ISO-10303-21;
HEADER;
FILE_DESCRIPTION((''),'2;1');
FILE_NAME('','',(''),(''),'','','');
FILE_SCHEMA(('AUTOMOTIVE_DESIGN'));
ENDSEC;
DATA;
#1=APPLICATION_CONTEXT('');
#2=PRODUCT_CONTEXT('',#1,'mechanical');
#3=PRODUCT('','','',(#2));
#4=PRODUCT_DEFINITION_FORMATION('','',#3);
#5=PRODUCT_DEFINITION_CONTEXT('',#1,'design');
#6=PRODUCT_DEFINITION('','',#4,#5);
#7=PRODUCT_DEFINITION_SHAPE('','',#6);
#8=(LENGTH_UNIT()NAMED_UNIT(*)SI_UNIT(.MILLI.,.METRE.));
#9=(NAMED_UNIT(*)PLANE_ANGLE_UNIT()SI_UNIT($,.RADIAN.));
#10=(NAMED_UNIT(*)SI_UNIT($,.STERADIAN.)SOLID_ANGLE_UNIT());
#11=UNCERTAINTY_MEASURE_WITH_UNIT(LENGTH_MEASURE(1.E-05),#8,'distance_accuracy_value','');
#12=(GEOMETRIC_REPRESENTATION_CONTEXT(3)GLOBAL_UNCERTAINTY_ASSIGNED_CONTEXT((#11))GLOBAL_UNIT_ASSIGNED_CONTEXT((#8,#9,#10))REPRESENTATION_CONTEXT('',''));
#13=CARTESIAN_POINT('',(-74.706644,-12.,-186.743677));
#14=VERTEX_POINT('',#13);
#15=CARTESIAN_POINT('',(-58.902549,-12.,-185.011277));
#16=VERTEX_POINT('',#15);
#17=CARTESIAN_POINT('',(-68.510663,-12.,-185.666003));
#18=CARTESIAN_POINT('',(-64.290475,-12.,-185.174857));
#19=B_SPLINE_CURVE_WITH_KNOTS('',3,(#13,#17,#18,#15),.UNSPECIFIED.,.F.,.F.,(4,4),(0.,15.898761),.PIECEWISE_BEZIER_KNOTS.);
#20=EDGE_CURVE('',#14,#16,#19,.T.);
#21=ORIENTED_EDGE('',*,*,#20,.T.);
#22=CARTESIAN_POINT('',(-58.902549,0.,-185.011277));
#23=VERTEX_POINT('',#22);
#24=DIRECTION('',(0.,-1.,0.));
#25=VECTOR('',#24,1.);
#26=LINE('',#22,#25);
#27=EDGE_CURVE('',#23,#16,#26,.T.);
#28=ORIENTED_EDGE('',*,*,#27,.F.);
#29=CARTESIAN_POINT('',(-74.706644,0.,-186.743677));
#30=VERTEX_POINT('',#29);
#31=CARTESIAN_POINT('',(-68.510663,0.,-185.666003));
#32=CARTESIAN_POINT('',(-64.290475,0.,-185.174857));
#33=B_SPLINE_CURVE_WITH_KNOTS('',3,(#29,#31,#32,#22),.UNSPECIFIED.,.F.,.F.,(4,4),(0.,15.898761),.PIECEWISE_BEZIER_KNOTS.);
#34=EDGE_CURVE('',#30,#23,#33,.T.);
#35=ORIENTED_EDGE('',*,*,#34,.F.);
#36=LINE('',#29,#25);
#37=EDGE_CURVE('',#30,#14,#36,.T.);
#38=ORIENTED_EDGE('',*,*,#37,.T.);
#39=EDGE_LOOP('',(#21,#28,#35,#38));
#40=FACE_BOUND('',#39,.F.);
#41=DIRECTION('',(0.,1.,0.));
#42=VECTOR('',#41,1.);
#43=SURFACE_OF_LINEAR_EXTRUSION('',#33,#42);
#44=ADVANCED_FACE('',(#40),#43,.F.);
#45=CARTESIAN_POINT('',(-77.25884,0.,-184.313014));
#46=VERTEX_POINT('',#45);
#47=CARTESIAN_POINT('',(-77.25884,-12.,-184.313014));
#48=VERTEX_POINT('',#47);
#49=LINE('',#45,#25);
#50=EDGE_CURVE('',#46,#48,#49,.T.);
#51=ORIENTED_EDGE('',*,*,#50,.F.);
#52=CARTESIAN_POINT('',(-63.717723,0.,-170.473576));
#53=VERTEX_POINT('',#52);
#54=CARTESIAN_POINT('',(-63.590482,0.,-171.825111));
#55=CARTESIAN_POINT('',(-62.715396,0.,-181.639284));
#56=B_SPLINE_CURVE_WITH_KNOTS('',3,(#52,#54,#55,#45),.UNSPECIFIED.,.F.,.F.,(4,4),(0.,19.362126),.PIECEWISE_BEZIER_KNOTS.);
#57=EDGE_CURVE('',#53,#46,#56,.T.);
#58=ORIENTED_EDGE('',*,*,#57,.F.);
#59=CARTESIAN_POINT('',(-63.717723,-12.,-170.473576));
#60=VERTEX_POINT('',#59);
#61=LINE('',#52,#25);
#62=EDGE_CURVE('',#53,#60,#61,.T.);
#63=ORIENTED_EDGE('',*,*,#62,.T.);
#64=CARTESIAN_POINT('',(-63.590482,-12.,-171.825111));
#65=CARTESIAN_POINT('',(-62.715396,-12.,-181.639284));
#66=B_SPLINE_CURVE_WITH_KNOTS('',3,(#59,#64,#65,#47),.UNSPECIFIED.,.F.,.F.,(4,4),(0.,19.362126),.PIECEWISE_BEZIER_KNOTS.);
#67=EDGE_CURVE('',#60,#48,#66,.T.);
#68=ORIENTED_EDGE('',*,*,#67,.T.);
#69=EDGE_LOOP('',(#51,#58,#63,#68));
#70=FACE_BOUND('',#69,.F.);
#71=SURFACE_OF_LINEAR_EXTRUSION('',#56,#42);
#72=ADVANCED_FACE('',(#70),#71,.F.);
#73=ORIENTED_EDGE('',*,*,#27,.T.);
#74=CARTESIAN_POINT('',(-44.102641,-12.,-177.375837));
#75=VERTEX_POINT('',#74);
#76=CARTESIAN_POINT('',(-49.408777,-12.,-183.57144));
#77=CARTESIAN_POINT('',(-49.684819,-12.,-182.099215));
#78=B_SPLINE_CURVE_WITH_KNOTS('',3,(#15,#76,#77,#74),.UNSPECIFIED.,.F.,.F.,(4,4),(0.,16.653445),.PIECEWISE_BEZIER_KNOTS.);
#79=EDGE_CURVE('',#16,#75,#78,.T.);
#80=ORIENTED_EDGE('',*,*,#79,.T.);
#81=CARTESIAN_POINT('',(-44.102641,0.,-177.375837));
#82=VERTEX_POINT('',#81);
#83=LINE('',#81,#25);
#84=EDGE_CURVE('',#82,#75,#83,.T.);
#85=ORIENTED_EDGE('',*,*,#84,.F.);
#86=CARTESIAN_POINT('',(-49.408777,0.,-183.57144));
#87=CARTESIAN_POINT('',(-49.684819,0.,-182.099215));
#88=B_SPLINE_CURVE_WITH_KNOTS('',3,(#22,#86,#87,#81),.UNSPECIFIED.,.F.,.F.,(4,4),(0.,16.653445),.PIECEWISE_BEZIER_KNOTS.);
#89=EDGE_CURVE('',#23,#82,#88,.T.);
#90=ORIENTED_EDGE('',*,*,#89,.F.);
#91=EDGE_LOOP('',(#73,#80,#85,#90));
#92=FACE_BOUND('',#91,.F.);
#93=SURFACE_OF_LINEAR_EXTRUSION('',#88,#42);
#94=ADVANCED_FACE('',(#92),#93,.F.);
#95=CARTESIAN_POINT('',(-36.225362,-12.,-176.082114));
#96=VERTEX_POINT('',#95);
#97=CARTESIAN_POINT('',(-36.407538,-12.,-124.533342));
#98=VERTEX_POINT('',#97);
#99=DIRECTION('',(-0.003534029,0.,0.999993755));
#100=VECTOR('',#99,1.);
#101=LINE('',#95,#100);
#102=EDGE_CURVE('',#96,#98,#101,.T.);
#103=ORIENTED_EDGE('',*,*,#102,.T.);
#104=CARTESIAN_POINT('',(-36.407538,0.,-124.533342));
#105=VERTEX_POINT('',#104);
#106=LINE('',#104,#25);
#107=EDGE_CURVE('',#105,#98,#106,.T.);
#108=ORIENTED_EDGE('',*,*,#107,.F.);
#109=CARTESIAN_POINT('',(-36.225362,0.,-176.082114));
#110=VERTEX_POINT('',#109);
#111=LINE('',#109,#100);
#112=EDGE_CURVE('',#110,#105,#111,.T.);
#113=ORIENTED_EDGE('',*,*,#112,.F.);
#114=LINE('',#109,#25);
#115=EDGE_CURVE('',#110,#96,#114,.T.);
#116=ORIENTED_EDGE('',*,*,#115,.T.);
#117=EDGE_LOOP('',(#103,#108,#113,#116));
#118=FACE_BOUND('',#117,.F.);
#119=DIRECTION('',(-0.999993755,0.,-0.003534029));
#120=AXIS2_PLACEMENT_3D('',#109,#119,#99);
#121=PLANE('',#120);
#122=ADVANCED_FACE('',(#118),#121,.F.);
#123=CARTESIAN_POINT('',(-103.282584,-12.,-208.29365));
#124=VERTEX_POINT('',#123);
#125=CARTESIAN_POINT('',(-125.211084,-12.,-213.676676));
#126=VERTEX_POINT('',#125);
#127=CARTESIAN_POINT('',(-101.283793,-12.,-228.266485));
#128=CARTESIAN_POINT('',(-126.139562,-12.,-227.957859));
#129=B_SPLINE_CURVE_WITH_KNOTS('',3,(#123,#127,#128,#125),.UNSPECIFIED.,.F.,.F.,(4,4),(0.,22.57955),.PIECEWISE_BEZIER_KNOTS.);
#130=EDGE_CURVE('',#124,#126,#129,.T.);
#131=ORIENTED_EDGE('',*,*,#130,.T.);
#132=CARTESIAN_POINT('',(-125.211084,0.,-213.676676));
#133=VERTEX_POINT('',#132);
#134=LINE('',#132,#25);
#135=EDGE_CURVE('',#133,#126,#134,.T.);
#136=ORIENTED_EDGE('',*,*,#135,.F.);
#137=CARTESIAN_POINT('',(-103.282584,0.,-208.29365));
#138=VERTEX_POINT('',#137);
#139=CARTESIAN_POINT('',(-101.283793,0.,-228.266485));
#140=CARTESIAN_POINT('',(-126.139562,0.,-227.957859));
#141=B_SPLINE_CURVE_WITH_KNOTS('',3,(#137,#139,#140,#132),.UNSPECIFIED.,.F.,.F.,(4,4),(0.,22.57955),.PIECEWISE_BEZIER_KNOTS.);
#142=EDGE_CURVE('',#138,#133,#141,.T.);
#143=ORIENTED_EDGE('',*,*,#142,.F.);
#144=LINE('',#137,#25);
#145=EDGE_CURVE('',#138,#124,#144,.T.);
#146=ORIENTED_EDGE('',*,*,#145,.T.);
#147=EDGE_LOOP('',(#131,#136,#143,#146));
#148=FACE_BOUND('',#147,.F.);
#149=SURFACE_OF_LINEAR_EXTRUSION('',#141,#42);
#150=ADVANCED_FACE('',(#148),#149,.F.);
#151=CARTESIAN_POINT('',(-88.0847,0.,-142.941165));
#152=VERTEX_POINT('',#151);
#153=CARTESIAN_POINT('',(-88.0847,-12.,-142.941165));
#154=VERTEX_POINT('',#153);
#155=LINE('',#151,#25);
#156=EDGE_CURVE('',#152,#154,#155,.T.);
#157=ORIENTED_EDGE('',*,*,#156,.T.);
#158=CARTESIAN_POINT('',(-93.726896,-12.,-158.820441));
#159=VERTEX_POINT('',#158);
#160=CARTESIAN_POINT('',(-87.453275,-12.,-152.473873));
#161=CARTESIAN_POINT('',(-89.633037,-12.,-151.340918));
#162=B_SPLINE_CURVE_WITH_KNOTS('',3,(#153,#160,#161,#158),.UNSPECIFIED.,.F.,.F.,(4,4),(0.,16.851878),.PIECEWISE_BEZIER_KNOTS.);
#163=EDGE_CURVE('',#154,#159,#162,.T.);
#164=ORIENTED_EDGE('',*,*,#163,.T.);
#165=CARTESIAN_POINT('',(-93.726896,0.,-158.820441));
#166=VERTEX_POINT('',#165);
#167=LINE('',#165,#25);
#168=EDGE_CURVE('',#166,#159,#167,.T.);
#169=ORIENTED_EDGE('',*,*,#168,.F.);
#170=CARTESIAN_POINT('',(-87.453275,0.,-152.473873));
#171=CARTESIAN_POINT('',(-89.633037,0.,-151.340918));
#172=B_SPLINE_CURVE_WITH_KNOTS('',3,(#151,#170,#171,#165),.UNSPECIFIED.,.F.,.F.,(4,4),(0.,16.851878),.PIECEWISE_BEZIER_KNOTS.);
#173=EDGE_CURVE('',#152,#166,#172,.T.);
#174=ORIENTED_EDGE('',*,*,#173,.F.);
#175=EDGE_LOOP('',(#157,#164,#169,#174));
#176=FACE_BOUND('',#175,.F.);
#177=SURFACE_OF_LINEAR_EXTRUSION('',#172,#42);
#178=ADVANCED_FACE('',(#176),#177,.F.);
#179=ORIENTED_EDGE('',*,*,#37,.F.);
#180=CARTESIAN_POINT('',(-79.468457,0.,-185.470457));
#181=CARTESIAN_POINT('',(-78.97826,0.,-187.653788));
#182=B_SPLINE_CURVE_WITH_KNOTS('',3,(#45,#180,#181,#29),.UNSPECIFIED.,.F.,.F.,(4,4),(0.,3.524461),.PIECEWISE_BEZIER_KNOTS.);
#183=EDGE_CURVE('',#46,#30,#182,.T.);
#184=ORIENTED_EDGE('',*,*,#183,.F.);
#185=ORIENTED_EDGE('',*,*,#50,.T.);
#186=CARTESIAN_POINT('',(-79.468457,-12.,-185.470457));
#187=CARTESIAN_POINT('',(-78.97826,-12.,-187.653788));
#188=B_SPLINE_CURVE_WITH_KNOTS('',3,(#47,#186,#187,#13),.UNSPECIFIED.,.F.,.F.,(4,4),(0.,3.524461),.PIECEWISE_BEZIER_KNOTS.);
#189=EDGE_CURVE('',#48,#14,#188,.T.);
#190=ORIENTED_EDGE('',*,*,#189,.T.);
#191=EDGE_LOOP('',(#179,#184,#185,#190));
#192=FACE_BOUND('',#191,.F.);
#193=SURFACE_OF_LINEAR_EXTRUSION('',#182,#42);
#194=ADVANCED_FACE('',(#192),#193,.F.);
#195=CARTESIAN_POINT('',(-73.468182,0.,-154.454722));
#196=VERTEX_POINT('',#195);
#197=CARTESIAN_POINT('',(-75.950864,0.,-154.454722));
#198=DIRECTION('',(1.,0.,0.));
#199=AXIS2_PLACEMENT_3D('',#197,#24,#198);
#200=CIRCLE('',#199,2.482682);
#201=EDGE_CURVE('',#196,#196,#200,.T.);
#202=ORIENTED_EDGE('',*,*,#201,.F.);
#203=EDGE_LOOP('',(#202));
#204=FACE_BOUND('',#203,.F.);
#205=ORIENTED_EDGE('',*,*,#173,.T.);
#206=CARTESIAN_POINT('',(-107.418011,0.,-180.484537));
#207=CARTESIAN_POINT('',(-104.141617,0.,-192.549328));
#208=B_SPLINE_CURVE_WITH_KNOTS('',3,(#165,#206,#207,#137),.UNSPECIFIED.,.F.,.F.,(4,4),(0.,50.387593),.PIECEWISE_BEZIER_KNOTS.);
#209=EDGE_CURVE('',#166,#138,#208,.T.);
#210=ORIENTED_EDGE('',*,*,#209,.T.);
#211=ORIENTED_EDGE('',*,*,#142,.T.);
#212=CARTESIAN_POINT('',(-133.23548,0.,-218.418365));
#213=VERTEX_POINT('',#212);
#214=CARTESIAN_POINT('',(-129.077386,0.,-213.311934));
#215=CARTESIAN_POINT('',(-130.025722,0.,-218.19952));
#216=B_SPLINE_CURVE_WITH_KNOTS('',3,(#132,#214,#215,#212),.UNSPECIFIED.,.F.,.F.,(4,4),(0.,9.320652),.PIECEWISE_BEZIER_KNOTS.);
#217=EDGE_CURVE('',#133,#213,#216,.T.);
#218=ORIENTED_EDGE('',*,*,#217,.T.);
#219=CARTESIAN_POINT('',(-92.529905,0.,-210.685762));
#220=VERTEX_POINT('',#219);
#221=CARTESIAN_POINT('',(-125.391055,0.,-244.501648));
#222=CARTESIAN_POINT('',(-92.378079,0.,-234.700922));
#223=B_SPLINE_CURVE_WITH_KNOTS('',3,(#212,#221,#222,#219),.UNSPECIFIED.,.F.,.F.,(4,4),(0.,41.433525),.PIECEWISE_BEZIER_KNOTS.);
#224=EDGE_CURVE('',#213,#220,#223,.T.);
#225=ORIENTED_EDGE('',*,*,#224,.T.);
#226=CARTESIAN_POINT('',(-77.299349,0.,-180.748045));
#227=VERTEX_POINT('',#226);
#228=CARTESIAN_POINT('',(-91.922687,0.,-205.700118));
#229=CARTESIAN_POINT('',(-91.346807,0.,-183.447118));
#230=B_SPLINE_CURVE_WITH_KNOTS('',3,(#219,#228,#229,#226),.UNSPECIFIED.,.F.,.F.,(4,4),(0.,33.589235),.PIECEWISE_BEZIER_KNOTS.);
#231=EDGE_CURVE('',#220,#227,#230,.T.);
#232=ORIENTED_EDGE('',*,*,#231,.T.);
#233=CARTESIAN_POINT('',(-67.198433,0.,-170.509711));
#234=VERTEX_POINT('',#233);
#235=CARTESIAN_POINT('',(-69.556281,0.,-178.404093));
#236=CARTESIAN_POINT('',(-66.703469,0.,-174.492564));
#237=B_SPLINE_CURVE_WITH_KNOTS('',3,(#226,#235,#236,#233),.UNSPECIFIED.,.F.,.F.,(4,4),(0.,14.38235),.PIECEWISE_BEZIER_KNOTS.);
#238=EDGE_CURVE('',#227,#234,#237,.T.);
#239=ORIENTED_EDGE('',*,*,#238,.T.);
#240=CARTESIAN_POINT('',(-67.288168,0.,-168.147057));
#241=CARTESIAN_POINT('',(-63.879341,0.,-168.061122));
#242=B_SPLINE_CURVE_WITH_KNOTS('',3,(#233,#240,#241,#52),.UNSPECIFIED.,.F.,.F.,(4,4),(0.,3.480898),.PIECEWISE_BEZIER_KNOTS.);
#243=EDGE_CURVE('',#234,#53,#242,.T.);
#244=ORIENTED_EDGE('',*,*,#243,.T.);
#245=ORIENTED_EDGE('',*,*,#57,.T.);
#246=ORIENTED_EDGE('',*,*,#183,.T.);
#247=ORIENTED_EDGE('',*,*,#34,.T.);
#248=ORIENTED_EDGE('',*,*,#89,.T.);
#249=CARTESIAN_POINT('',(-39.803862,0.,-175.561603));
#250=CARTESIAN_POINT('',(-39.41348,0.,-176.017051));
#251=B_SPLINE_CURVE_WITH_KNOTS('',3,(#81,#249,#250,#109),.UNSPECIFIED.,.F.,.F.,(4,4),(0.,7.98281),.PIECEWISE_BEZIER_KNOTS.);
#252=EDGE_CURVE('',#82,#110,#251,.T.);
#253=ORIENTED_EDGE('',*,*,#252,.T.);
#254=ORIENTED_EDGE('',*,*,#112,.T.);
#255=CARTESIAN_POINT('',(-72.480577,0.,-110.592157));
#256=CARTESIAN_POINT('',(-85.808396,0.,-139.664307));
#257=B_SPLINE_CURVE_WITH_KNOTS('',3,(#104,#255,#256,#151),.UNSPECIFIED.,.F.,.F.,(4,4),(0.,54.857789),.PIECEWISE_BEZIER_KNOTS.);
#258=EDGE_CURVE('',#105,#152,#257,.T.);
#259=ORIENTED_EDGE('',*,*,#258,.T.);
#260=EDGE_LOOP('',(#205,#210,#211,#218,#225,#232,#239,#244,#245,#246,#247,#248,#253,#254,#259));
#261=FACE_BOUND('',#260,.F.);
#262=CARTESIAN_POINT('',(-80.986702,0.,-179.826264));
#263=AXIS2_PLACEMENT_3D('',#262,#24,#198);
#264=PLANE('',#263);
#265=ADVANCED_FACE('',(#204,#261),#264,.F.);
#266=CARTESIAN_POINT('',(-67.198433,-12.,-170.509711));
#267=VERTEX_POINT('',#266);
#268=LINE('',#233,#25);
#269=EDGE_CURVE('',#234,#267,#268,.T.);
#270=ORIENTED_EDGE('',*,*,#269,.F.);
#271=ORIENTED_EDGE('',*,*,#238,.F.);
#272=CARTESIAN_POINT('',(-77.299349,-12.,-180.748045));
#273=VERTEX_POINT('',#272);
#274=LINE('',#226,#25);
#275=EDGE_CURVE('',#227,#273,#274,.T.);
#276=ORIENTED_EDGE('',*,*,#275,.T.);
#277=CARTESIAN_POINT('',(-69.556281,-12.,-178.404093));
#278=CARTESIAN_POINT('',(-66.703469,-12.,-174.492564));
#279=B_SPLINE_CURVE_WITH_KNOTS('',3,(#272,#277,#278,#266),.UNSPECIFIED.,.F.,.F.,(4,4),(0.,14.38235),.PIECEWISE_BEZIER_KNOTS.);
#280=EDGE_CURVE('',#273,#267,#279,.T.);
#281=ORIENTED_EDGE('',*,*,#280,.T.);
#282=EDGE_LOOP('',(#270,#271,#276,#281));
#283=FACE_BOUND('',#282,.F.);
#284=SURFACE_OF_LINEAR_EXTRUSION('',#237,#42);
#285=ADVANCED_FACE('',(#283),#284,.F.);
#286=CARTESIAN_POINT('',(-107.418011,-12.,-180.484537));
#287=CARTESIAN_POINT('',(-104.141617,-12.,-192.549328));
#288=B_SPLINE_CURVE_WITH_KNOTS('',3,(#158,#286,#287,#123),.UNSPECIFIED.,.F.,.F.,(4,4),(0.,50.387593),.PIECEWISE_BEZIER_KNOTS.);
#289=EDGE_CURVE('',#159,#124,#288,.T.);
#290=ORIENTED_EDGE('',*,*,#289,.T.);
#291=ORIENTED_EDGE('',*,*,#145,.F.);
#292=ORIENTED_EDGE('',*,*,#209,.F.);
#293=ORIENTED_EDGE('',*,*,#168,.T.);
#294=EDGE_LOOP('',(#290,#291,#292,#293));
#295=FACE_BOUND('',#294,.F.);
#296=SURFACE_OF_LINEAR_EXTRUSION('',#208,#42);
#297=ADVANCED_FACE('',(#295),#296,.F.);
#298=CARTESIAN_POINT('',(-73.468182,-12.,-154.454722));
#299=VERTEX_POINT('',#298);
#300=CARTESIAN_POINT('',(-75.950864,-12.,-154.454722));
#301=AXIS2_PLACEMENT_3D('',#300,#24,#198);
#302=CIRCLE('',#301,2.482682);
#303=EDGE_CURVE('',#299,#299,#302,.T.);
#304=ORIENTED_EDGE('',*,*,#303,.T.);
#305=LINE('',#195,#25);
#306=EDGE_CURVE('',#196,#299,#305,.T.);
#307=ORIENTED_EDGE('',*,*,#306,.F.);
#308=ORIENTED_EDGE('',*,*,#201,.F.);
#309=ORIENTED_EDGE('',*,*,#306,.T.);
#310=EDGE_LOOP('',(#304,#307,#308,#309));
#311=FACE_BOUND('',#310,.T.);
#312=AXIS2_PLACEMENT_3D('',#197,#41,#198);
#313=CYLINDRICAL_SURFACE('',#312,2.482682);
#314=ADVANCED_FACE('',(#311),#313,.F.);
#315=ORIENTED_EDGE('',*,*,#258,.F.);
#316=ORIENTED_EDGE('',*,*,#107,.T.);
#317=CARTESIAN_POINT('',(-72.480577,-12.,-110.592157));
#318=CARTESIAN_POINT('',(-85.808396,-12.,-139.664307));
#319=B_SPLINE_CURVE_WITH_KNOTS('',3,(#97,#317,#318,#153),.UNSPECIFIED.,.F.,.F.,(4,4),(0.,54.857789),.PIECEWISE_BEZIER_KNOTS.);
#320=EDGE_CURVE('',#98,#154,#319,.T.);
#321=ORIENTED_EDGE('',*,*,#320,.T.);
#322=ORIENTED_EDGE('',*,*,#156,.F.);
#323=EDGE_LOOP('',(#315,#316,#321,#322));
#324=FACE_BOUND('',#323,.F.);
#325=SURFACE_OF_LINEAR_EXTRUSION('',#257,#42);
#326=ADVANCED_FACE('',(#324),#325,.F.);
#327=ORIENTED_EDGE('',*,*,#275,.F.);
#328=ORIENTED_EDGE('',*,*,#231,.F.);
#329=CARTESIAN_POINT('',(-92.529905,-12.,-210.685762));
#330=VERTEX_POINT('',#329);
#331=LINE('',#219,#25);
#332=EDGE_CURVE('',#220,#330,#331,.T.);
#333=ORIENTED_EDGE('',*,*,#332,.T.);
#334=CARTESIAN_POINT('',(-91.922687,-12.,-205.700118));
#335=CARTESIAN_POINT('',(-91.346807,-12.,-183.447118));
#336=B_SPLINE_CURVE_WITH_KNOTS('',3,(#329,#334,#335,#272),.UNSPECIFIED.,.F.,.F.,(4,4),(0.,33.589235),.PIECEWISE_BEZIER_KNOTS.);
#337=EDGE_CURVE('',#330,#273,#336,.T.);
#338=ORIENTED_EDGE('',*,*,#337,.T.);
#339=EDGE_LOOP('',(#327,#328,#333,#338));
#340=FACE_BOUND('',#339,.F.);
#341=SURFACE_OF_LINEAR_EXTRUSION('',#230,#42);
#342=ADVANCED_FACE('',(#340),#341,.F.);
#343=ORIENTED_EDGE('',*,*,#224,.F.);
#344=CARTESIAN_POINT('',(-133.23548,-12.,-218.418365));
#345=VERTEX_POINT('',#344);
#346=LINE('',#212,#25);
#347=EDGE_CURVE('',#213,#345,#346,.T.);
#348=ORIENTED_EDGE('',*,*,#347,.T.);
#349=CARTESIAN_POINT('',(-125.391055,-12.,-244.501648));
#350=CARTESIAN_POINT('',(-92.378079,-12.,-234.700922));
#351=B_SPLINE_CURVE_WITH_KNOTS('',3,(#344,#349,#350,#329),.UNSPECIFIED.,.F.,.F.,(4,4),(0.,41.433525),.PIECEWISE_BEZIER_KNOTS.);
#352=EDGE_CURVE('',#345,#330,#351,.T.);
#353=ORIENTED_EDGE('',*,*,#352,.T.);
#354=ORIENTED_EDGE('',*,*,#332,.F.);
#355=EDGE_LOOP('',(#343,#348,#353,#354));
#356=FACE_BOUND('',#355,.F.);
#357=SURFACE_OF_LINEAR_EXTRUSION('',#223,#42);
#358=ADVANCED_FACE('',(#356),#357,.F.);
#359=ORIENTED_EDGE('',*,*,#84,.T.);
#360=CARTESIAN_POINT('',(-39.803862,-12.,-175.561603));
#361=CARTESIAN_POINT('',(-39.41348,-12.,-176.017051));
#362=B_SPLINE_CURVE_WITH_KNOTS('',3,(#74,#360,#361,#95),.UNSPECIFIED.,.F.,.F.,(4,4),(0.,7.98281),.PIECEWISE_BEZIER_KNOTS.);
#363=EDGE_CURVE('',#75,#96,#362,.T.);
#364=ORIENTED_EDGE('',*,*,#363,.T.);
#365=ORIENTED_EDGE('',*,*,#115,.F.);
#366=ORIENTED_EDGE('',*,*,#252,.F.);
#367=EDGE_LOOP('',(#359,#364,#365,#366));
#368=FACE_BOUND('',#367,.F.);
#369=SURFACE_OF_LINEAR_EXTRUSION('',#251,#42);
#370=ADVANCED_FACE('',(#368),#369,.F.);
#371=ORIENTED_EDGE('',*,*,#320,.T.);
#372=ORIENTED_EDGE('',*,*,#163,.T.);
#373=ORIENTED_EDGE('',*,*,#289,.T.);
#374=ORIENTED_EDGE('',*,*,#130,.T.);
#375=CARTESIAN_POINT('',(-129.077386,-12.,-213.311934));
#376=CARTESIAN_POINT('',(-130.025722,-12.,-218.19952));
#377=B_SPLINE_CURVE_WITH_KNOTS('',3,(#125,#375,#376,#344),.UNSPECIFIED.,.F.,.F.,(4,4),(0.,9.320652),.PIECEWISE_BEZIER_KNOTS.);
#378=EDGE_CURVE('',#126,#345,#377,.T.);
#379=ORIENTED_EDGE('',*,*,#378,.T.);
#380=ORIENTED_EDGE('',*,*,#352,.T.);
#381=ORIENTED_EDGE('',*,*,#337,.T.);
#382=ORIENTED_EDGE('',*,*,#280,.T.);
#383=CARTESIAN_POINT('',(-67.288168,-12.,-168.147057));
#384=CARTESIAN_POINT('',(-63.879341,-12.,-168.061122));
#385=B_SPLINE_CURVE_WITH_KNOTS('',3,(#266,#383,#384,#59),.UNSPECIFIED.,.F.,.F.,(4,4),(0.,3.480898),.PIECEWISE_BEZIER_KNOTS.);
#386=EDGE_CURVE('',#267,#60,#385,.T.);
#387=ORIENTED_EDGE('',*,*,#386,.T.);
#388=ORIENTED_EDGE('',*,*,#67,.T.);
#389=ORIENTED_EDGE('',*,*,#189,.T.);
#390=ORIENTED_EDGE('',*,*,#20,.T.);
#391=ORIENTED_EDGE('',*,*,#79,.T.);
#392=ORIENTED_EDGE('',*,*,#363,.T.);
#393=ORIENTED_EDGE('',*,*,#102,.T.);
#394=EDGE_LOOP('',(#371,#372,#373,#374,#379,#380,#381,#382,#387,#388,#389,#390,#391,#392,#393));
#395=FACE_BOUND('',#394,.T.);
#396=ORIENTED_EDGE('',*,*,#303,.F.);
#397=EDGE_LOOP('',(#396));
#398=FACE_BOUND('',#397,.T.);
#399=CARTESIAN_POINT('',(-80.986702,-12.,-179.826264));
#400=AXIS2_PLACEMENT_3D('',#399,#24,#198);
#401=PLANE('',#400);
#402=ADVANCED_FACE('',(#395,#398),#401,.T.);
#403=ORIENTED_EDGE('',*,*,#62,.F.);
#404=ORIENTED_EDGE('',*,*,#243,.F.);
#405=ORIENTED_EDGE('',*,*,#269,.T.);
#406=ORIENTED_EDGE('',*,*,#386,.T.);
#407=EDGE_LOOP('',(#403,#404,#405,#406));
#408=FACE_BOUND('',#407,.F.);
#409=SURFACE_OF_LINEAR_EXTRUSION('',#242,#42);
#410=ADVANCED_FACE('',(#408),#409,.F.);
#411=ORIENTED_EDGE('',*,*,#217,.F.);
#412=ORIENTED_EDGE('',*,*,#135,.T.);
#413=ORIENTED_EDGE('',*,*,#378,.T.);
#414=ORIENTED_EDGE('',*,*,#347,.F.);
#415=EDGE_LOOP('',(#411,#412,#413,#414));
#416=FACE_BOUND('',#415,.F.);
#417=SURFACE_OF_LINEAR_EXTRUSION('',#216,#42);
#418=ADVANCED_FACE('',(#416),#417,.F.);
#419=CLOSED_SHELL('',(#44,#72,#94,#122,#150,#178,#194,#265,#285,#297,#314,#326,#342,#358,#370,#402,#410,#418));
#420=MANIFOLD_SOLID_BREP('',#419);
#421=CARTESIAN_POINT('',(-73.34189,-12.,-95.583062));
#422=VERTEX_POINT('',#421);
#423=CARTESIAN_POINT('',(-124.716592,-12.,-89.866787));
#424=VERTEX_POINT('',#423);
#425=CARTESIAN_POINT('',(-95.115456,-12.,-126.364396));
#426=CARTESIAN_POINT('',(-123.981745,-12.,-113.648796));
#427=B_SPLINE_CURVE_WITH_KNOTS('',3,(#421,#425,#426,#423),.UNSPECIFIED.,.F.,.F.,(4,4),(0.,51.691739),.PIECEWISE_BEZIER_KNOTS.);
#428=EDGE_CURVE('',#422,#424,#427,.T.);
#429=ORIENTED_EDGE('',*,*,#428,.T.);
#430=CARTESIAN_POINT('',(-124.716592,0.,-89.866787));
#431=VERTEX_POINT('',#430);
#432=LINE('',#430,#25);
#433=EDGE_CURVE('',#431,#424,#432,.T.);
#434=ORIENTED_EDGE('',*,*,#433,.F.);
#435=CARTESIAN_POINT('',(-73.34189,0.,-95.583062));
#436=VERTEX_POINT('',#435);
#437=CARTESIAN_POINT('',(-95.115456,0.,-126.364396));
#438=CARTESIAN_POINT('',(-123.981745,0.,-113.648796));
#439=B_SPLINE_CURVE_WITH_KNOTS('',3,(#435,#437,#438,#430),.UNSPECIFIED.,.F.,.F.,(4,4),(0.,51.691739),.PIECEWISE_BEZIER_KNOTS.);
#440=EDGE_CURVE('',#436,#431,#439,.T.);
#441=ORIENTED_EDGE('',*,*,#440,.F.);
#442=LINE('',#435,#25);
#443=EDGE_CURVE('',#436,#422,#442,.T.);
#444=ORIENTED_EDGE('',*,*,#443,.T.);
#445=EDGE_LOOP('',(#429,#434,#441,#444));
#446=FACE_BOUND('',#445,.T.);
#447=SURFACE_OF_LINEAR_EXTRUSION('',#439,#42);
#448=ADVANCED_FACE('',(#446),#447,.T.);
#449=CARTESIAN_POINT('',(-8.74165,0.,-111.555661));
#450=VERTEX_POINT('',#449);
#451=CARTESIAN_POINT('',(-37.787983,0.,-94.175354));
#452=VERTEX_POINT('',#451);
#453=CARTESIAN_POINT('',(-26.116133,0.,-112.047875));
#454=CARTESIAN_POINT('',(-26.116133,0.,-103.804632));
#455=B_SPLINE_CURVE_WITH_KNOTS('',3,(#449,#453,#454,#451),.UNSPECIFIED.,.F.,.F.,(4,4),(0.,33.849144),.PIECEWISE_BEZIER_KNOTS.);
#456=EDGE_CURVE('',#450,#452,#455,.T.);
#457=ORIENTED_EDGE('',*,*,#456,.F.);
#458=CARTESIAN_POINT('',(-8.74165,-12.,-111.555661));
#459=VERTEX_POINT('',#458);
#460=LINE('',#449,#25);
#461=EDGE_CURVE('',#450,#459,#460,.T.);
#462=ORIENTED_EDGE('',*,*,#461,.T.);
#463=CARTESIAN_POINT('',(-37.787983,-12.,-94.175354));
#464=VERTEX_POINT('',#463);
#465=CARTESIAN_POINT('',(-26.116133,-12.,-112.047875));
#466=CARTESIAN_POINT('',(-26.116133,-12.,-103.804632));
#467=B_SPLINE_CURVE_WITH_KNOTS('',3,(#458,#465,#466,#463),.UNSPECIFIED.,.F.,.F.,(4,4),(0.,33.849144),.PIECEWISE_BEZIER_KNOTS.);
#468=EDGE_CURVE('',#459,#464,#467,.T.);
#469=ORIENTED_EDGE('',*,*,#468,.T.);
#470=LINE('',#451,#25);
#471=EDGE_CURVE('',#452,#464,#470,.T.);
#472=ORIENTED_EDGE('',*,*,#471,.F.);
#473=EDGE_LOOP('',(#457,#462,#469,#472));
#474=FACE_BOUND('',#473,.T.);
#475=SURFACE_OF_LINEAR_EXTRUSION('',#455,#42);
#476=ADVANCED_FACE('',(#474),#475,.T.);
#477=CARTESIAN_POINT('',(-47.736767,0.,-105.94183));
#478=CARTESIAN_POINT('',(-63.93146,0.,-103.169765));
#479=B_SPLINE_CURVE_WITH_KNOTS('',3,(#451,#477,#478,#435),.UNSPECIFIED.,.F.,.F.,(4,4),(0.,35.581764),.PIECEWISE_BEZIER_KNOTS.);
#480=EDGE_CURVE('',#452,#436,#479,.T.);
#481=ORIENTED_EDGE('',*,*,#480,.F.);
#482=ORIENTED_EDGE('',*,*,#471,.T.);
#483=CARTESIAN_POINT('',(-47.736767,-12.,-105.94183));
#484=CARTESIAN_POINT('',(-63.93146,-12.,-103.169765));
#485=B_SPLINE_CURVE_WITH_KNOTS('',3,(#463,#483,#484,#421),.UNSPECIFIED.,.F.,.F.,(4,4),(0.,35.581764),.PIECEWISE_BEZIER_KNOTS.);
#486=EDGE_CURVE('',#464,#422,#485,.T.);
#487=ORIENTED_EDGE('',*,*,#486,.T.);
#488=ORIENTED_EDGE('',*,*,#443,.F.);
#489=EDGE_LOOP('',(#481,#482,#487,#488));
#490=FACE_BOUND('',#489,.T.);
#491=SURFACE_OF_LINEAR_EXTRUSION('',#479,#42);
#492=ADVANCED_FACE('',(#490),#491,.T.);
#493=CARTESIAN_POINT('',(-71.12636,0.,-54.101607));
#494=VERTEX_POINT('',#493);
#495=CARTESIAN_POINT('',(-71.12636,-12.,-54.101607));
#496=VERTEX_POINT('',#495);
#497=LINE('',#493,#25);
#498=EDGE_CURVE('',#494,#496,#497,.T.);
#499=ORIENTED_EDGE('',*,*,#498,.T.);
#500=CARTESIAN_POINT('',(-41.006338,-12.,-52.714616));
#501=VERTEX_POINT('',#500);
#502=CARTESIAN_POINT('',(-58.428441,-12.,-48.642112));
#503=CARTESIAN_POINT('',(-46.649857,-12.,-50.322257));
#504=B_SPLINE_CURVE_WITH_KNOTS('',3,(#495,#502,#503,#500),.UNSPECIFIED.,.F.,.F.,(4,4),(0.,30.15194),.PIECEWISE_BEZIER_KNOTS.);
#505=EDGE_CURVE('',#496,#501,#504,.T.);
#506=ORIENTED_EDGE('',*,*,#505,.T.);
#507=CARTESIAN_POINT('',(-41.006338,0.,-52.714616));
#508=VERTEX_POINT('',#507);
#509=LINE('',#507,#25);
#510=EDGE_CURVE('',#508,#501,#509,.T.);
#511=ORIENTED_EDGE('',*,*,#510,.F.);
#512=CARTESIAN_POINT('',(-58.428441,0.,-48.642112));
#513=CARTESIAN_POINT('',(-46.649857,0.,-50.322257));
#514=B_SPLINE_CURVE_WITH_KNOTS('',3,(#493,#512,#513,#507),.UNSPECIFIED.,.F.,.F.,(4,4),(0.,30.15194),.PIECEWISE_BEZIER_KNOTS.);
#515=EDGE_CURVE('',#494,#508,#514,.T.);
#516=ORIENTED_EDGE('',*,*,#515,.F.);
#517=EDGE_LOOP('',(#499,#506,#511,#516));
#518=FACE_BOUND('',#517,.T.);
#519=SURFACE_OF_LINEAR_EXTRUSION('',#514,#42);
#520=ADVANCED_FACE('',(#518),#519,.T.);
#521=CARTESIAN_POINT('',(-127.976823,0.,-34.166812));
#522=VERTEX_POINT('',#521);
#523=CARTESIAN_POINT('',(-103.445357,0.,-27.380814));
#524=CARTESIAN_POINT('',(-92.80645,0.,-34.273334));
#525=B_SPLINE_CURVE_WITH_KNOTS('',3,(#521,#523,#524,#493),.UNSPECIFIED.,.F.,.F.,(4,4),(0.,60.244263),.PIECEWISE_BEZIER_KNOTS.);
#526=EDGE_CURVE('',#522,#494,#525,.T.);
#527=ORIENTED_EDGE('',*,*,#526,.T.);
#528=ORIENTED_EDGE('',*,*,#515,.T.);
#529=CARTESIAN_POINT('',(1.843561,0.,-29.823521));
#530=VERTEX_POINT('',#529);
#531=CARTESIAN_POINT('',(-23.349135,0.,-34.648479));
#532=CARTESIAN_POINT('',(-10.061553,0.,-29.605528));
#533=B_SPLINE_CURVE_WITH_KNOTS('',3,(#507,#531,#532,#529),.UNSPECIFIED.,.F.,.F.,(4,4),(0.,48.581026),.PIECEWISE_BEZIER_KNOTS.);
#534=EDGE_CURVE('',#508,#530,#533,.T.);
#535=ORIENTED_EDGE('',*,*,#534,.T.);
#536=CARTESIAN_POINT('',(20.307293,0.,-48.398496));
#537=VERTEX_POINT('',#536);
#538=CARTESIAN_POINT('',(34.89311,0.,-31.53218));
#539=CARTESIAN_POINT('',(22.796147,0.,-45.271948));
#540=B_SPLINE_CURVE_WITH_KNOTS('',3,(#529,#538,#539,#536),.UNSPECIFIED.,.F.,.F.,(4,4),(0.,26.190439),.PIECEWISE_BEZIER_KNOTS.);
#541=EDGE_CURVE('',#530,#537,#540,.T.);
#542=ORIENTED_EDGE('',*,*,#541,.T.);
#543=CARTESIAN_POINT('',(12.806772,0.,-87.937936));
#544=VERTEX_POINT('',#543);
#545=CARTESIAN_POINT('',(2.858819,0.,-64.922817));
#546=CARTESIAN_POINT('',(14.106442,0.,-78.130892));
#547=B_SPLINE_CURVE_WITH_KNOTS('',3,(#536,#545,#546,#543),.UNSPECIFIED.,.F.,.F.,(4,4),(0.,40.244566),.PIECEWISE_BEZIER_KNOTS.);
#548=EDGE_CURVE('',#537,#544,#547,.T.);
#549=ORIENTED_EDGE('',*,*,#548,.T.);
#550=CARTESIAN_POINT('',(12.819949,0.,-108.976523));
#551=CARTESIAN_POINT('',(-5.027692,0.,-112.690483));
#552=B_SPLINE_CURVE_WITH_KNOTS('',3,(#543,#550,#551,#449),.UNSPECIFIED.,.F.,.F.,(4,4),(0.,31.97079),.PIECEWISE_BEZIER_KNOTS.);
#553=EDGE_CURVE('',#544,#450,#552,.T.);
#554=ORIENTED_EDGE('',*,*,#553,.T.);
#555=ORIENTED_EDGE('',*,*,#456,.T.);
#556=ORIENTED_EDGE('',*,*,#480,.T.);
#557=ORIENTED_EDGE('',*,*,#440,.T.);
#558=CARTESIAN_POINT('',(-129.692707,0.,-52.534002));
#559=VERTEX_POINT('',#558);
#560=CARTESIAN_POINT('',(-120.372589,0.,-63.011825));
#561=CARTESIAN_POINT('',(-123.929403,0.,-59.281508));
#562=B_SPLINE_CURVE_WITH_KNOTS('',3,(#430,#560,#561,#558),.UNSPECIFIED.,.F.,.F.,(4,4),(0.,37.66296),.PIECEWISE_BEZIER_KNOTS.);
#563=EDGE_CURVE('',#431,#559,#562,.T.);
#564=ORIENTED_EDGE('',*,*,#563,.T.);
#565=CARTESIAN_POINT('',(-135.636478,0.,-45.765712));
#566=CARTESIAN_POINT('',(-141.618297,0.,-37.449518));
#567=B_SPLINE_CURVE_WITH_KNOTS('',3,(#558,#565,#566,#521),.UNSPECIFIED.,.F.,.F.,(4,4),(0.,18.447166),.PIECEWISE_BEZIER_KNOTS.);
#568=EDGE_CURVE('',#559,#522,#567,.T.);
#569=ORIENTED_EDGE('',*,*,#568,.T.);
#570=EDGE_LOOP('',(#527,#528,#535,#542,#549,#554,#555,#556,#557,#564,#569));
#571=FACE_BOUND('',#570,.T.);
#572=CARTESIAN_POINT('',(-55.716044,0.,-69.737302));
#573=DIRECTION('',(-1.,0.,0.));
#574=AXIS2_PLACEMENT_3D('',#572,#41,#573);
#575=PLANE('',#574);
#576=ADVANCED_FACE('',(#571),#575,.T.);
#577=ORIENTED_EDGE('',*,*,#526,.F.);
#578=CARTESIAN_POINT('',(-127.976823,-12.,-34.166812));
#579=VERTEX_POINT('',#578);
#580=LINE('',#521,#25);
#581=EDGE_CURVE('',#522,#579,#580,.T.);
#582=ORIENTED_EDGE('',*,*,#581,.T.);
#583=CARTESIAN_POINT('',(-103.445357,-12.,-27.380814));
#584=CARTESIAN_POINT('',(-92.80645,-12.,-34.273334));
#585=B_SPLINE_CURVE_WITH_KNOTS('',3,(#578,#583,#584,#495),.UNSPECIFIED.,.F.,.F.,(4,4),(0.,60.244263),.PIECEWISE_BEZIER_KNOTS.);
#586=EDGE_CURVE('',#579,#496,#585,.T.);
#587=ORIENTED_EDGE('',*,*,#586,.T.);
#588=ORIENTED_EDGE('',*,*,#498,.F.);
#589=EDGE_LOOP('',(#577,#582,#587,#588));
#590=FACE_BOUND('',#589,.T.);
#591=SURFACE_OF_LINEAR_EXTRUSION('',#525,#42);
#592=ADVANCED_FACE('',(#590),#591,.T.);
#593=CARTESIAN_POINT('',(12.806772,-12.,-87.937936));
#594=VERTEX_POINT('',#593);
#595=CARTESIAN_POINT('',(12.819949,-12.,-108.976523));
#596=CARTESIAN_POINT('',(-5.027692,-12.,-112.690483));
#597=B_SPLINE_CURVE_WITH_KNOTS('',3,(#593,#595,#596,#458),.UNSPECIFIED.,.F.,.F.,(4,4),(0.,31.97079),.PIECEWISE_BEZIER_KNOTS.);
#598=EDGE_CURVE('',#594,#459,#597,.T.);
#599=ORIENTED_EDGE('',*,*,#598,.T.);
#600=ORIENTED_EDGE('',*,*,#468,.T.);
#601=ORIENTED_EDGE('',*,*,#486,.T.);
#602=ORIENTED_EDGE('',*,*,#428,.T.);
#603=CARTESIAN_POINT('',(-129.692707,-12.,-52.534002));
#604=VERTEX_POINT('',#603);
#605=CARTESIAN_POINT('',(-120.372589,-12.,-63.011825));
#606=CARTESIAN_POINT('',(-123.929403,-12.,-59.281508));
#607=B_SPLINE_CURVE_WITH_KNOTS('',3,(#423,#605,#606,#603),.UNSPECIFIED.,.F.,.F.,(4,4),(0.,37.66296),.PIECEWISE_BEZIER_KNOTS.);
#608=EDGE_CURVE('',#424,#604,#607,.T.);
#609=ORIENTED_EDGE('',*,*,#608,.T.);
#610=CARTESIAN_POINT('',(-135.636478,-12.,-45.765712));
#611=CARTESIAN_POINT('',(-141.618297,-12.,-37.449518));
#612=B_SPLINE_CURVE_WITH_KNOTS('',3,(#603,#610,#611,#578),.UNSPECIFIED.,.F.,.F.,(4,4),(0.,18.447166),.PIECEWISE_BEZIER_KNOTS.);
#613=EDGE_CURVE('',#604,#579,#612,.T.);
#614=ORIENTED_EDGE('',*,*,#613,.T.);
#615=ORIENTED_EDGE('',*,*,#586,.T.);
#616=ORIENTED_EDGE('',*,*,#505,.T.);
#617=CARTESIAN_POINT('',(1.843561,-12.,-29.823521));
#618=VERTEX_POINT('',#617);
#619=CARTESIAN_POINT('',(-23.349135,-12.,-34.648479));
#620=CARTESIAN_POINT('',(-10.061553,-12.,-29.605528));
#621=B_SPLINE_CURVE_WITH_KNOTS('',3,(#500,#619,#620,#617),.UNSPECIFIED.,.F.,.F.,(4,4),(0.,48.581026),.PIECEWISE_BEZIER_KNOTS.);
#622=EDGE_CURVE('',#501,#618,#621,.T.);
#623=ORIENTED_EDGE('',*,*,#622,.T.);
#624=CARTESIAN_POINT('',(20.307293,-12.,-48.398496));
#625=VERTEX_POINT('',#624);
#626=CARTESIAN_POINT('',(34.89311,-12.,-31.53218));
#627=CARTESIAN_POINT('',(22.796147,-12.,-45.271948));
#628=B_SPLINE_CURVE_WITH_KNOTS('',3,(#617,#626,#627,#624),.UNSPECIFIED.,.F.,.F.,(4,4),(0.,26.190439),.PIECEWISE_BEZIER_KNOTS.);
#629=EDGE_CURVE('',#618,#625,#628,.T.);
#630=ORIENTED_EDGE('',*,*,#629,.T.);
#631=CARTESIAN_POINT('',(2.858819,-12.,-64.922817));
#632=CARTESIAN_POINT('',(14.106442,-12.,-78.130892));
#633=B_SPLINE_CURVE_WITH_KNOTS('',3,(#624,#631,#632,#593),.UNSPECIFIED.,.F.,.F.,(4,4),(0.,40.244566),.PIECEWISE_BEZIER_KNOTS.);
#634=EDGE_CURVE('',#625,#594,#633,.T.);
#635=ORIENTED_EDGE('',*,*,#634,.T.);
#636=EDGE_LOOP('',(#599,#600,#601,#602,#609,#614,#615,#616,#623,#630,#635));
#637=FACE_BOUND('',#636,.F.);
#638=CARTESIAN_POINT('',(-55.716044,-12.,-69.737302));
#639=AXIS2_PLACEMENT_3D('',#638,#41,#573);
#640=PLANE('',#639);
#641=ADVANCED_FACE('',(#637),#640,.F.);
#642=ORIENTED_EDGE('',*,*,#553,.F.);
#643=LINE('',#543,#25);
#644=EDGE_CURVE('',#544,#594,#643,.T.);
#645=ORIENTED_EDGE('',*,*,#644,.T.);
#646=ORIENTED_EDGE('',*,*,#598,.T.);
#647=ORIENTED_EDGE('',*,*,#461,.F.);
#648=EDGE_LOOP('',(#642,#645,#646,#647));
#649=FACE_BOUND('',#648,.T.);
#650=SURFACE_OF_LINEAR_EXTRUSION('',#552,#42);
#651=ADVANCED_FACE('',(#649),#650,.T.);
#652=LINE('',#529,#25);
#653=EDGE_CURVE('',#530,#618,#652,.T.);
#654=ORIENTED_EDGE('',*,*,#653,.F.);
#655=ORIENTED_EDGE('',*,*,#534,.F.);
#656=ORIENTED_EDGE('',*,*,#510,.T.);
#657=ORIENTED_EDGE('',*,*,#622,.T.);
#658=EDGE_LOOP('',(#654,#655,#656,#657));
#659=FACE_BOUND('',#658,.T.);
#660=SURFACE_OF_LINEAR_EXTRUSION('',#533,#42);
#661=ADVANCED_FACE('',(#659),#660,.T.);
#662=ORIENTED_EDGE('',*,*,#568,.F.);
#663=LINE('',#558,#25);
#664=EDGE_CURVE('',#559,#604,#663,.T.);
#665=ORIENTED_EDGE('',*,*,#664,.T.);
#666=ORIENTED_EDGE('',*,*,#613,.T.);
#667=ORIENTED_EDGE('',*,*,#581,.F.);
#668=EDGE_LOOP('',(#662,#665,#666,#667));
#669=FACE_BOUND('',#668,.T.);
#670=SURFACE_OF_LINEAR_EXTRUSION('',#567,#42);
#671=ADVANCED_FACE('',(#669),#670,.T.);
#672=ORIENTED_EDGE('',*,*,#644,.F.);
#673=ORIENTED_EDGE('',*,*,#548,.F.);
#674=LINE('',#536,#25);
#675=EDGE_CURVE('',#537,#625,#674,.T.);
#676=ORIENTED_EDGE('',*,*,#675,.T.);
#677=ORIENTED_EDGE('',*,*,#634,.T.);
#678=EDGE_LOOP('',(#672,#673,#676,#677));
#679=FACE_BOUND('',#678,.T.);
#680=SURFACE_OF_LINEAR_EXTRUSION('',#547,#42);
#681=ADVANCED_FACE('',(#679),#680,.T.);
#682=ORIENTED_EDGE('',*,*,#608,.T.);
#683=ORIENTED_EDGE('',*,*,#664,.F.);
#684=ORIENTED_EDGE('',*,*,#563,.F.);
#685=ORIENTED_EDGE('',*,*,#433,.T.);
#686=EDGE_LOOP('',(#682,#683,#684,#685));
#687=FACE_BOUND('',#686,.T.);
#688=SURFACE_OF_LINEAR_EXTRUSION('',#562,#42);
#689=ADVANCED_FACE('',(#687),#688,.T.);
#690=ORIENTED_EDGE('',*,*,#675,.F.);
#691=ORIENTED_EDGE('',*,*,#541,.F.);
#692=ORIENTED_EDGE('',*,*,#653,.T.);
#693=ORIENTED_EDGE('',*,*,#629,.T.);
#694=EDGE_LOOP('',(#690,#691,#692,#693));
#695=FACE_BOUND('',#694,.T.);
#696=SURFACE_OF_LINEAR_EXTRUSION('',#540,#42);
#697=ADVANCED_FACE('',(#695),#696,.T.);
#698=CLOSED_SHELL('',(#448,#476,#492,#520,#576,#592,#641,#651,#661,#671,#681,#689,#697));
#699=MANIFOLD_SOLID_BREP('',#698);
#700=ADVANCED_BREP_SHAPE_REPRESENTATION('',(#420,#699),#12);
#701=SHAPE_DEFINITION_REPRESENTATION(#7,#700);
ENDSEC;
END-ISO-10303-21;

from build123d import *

# Parameters (mm, degrees)
F0_R     = 2.482682
F1_DEPTH = 12


with BuildPart() as f1:
    # F0 (on Front) → F1 (new body)
    with BuildSketch(Plane.XZ):
        with BuildLine():
            add(Edge.make_bspline(
                [(-71.12636, -54.101607), (-58.428441, -48.642112), (-46.649857, -50.322257), (-41.006338, -52.714616)],
                knots=[0, 0, 0, 0, 30.15194, 30.15194, 30.15194, 30.15194], degree=3))
            add(Edge.make_bspline(
                [(-127.976823, -34.166812), (-103.445357, -27.380814), (-92.80645, -34.273334), (-71.12636, -54.101607)],
                knots=[0, 0, 0, 0, 60.244263, 60.244263, 60.244263, 60.244263], degree=3))
            add(Edge.make_bspline(
                [(-129.692707, -52.534002), (-135.636478, -45.765712), (-141.618297, -37.449518), (-127.976823, -34.166812)],
                knots=[0, 0, 0, 0, 18.447166, 18.447166, 18.447166, 18.447166], degree=3))
            add(Edge.make_bspline(
                [(-124.716592, -89.866787), (-120.372589, -63.011825), (-123.929403, -59.281508), (-129.692707, -52.534002)],
                knots=[0, 0, 0, 0, 37.66296, 37.66296, 37.66296, 37.66296], degree=3))
            add(Edge.make_bspline(
                [(-73.34189, -95.583062), (-95.115456, -126.364396), (-123.981745, -113.648796), (-124.716592, -89.866787)],
                knots=[0, 0, 0, 0, 51.691739, 51.691739, 51.691739, 51.691739], degree=3))
            add(Edge.make_bspline(
                [(-37.787983, -94.175354), (-47.736767, -105.94183), (-63.93146, -103.169765), (-73.34189, -95.583062)],
                knots=[0, 0, 0, 0, 35.581764, 35.581764, 35.581764, 35.581764], degree=3))
            add(Edge.make_bspline(
                [(-8.74165, -111.555661), (-26.116133, -112.047875), (-26.116133, -103.804632), (-37.787983, -94.175354)],
                knots=[0, 0, 0, 0, 33.849144, 33.849144, 33.849144, 33.849144], degree=3))
            add(Edge.make_bspline(
                [(12.806772, -87.937936), (12.819949, -108.976523), (-5.027692, -112.690483), (-8.74165, -111.555661)],
                knots=[0, 0, 0, 0, 31.97079, 31.97079, 31.97079, 31.97079], degree=3))
            add(Edge.make_bspline(
                [(20.307293, -48.398496), (2.858819, -64.922817), (14.106442, -78.130892), (12.806772, -87.937936)],
                knots=[0, 0, 0, 0, 40.244566, 40.244566, 40.244566, 40.244566], degree=3))
            add(Edge.make_bspline(
                [(1.843561, -29.823521), (34.89311, -31.53218), (22.796147, -45.271948), (20.307293, -48.398496)],
                knots=[0, 0, 0, 0, 26.190439, 26.190439, 26.190439, 26.190439], degree=3))
            add(Edge.make_bspline(
                [(-41.006338, -52.714616), (-23.349135, -34.648479), (-10.061553, -29.605528), (1.843561, -29.823521)],
                knots=[0, 0, 0, 0, 48.581026, 48.581026, 48.581026, 48.581026], degree=3))
        make_face()
        with BuildLine():
            Line((-36.225362, -176.082114), (-36.407538, -124.533342))
            add(Edge.make_bspline(
                [(-36.407538, -124.533342), (-72.480577, -110.592157), (-85.808396, -139.664307), (-88.0847, -142.941165)],
                knots=[0, 0, 0, 0, 54.857789, 54.857789, 54.857789, 54.857789], degree=3))
            add(Edge.make_bspline(
                [(-88.0847, -142.941165), (-87.453275, -152.473873), (-89.633037, -151.340918), (-93.726896, -158.820441)],
                knots=[0, 0, 0, 0, 16.851878, 16.851878, 16.851878, 16.851878], degree=3))
            add(Edge.make_bspline(
                [(-93.726896, -158.820441), (-107.418011, -180.484537), (-104.141617, -192.549328), (-103.282584, -208.29365)],
                knots=[0, 0, 0, 0, 50.387593, 50.387593, 50.387593, 50.387593], degree=3))
            add(Edge.make_bspline(
                [(-103.282584, -208.29365), (-101.283793, -228.266485), (-126.139562, -227.957859), (-125.211084, -213.676676)],
                knots=[0, 0, 0, 0, 22.57955, 22.57955, 22.57955, 22.57955], degree=3))
            add(Edge.make_bspline(
                [(-125.211084, -213.676676), (-129.077386, -213.311934), (-130.025722, -218.19952), (-133.23548, -218.418365)],
                knots=[0, 0, 0, 0, 9.320652, 9.320652, 9.320652, 9.320652], degree=3))
            add(Edge.make_bspline(
                [(-133.23548, -218.418365), (-125.391055, -244.501648), (-92.378079, -234.700922), (-92.529905, -210.685762)],
                knots=[0, 0, 0, 0, 41.433525, 41.433525, 41.433525, 41.433525], degree=3))
            add(Edge.make_bspline(
                [(-92.529905, -210.685762), (-91.922687, -205.700118), (-91.346807, -183.447118), (-77.299349, -180.748045)],
                knots=[0, 0, 0, 0, 33.589235, 33.589235, 33.589235, 33.589235], degree=3))
            add(Edge.make_bspline(
                [(-77.299349, -180.748045), (-69.556281, -178.404093), (-66.703469, -174.492564), (-67.198433, -170.509711)],
                knots=[0, 0, 0, 0, 14.38235, 14.38235, 14.38235, 14.38235], degree=3))
            add(Edge.make_bspline(
                [(-67.198433, -170.509711), (-67.288168, -168.147057), (-63.879341, -168.061122), (-63.717723, -170.473576)],
                knots=[0, 0, 0, 0, 3.480898, 3.480898, 3.480898, 3.480898], degree=3))
            add(Edge.make_bspline(
                [(-63.717723, -170.473576), (-63.590482, -171.825111), (-62.715396, -181.639284), (-77.25884, -184.313014)],
                knots=[0, 0, 0, 0, 19.362126, 19.362126, 19.362126, 19.362126], degree=3))
            add(Edge.make_bspline(
                [(-77.25884, -184.313014), (-79.468457, -185.470457), (-78.97826, -187.653788), (-74.706644, -186.743677)],
                knots=[0, 0, 0, 0, 3.524461, 3.524461, 3.524461, 3.524461], degree=3))
            add(Edge.make_bspline(
                [(-74.706644, -186.743677), (-68.510663, -185.666003), (-64.290475, -185.174857), (-58.902549, -185.011277)],
                knots=[0, 0, 0, 0, 15.898761, 15.898761, 15.898761, 15.898761], degree=3))
            add(Edge.make_bspline(
                [(-58.902549, -185.011277), (-49.408777, -183.57144), (-49.684819, -182.099215), (-44.102641, -177.375837)],
                knots=[0, 0, 0, 0, 16.653445, 16.653445, 16.653445, 16.653445], degree=3))
            add(Edge.make_bspline(
                [(-44.102641, -177.375837), (-39.803862, -175.561603), (-39.41348, -176.017051), (-36.225362, -176.082114)],
                knots=[0, 0, 0, 0, 7.98281, 7.98281, 7.98281, 7.98281], degree=3))
        make_face()
        with Locations((-75.950864, -154.454722)):
            Circle(F0_R, mode=Mode.SUBTRACT)
    extrude(amount=F1_DEPTH)


solid = f1.part
